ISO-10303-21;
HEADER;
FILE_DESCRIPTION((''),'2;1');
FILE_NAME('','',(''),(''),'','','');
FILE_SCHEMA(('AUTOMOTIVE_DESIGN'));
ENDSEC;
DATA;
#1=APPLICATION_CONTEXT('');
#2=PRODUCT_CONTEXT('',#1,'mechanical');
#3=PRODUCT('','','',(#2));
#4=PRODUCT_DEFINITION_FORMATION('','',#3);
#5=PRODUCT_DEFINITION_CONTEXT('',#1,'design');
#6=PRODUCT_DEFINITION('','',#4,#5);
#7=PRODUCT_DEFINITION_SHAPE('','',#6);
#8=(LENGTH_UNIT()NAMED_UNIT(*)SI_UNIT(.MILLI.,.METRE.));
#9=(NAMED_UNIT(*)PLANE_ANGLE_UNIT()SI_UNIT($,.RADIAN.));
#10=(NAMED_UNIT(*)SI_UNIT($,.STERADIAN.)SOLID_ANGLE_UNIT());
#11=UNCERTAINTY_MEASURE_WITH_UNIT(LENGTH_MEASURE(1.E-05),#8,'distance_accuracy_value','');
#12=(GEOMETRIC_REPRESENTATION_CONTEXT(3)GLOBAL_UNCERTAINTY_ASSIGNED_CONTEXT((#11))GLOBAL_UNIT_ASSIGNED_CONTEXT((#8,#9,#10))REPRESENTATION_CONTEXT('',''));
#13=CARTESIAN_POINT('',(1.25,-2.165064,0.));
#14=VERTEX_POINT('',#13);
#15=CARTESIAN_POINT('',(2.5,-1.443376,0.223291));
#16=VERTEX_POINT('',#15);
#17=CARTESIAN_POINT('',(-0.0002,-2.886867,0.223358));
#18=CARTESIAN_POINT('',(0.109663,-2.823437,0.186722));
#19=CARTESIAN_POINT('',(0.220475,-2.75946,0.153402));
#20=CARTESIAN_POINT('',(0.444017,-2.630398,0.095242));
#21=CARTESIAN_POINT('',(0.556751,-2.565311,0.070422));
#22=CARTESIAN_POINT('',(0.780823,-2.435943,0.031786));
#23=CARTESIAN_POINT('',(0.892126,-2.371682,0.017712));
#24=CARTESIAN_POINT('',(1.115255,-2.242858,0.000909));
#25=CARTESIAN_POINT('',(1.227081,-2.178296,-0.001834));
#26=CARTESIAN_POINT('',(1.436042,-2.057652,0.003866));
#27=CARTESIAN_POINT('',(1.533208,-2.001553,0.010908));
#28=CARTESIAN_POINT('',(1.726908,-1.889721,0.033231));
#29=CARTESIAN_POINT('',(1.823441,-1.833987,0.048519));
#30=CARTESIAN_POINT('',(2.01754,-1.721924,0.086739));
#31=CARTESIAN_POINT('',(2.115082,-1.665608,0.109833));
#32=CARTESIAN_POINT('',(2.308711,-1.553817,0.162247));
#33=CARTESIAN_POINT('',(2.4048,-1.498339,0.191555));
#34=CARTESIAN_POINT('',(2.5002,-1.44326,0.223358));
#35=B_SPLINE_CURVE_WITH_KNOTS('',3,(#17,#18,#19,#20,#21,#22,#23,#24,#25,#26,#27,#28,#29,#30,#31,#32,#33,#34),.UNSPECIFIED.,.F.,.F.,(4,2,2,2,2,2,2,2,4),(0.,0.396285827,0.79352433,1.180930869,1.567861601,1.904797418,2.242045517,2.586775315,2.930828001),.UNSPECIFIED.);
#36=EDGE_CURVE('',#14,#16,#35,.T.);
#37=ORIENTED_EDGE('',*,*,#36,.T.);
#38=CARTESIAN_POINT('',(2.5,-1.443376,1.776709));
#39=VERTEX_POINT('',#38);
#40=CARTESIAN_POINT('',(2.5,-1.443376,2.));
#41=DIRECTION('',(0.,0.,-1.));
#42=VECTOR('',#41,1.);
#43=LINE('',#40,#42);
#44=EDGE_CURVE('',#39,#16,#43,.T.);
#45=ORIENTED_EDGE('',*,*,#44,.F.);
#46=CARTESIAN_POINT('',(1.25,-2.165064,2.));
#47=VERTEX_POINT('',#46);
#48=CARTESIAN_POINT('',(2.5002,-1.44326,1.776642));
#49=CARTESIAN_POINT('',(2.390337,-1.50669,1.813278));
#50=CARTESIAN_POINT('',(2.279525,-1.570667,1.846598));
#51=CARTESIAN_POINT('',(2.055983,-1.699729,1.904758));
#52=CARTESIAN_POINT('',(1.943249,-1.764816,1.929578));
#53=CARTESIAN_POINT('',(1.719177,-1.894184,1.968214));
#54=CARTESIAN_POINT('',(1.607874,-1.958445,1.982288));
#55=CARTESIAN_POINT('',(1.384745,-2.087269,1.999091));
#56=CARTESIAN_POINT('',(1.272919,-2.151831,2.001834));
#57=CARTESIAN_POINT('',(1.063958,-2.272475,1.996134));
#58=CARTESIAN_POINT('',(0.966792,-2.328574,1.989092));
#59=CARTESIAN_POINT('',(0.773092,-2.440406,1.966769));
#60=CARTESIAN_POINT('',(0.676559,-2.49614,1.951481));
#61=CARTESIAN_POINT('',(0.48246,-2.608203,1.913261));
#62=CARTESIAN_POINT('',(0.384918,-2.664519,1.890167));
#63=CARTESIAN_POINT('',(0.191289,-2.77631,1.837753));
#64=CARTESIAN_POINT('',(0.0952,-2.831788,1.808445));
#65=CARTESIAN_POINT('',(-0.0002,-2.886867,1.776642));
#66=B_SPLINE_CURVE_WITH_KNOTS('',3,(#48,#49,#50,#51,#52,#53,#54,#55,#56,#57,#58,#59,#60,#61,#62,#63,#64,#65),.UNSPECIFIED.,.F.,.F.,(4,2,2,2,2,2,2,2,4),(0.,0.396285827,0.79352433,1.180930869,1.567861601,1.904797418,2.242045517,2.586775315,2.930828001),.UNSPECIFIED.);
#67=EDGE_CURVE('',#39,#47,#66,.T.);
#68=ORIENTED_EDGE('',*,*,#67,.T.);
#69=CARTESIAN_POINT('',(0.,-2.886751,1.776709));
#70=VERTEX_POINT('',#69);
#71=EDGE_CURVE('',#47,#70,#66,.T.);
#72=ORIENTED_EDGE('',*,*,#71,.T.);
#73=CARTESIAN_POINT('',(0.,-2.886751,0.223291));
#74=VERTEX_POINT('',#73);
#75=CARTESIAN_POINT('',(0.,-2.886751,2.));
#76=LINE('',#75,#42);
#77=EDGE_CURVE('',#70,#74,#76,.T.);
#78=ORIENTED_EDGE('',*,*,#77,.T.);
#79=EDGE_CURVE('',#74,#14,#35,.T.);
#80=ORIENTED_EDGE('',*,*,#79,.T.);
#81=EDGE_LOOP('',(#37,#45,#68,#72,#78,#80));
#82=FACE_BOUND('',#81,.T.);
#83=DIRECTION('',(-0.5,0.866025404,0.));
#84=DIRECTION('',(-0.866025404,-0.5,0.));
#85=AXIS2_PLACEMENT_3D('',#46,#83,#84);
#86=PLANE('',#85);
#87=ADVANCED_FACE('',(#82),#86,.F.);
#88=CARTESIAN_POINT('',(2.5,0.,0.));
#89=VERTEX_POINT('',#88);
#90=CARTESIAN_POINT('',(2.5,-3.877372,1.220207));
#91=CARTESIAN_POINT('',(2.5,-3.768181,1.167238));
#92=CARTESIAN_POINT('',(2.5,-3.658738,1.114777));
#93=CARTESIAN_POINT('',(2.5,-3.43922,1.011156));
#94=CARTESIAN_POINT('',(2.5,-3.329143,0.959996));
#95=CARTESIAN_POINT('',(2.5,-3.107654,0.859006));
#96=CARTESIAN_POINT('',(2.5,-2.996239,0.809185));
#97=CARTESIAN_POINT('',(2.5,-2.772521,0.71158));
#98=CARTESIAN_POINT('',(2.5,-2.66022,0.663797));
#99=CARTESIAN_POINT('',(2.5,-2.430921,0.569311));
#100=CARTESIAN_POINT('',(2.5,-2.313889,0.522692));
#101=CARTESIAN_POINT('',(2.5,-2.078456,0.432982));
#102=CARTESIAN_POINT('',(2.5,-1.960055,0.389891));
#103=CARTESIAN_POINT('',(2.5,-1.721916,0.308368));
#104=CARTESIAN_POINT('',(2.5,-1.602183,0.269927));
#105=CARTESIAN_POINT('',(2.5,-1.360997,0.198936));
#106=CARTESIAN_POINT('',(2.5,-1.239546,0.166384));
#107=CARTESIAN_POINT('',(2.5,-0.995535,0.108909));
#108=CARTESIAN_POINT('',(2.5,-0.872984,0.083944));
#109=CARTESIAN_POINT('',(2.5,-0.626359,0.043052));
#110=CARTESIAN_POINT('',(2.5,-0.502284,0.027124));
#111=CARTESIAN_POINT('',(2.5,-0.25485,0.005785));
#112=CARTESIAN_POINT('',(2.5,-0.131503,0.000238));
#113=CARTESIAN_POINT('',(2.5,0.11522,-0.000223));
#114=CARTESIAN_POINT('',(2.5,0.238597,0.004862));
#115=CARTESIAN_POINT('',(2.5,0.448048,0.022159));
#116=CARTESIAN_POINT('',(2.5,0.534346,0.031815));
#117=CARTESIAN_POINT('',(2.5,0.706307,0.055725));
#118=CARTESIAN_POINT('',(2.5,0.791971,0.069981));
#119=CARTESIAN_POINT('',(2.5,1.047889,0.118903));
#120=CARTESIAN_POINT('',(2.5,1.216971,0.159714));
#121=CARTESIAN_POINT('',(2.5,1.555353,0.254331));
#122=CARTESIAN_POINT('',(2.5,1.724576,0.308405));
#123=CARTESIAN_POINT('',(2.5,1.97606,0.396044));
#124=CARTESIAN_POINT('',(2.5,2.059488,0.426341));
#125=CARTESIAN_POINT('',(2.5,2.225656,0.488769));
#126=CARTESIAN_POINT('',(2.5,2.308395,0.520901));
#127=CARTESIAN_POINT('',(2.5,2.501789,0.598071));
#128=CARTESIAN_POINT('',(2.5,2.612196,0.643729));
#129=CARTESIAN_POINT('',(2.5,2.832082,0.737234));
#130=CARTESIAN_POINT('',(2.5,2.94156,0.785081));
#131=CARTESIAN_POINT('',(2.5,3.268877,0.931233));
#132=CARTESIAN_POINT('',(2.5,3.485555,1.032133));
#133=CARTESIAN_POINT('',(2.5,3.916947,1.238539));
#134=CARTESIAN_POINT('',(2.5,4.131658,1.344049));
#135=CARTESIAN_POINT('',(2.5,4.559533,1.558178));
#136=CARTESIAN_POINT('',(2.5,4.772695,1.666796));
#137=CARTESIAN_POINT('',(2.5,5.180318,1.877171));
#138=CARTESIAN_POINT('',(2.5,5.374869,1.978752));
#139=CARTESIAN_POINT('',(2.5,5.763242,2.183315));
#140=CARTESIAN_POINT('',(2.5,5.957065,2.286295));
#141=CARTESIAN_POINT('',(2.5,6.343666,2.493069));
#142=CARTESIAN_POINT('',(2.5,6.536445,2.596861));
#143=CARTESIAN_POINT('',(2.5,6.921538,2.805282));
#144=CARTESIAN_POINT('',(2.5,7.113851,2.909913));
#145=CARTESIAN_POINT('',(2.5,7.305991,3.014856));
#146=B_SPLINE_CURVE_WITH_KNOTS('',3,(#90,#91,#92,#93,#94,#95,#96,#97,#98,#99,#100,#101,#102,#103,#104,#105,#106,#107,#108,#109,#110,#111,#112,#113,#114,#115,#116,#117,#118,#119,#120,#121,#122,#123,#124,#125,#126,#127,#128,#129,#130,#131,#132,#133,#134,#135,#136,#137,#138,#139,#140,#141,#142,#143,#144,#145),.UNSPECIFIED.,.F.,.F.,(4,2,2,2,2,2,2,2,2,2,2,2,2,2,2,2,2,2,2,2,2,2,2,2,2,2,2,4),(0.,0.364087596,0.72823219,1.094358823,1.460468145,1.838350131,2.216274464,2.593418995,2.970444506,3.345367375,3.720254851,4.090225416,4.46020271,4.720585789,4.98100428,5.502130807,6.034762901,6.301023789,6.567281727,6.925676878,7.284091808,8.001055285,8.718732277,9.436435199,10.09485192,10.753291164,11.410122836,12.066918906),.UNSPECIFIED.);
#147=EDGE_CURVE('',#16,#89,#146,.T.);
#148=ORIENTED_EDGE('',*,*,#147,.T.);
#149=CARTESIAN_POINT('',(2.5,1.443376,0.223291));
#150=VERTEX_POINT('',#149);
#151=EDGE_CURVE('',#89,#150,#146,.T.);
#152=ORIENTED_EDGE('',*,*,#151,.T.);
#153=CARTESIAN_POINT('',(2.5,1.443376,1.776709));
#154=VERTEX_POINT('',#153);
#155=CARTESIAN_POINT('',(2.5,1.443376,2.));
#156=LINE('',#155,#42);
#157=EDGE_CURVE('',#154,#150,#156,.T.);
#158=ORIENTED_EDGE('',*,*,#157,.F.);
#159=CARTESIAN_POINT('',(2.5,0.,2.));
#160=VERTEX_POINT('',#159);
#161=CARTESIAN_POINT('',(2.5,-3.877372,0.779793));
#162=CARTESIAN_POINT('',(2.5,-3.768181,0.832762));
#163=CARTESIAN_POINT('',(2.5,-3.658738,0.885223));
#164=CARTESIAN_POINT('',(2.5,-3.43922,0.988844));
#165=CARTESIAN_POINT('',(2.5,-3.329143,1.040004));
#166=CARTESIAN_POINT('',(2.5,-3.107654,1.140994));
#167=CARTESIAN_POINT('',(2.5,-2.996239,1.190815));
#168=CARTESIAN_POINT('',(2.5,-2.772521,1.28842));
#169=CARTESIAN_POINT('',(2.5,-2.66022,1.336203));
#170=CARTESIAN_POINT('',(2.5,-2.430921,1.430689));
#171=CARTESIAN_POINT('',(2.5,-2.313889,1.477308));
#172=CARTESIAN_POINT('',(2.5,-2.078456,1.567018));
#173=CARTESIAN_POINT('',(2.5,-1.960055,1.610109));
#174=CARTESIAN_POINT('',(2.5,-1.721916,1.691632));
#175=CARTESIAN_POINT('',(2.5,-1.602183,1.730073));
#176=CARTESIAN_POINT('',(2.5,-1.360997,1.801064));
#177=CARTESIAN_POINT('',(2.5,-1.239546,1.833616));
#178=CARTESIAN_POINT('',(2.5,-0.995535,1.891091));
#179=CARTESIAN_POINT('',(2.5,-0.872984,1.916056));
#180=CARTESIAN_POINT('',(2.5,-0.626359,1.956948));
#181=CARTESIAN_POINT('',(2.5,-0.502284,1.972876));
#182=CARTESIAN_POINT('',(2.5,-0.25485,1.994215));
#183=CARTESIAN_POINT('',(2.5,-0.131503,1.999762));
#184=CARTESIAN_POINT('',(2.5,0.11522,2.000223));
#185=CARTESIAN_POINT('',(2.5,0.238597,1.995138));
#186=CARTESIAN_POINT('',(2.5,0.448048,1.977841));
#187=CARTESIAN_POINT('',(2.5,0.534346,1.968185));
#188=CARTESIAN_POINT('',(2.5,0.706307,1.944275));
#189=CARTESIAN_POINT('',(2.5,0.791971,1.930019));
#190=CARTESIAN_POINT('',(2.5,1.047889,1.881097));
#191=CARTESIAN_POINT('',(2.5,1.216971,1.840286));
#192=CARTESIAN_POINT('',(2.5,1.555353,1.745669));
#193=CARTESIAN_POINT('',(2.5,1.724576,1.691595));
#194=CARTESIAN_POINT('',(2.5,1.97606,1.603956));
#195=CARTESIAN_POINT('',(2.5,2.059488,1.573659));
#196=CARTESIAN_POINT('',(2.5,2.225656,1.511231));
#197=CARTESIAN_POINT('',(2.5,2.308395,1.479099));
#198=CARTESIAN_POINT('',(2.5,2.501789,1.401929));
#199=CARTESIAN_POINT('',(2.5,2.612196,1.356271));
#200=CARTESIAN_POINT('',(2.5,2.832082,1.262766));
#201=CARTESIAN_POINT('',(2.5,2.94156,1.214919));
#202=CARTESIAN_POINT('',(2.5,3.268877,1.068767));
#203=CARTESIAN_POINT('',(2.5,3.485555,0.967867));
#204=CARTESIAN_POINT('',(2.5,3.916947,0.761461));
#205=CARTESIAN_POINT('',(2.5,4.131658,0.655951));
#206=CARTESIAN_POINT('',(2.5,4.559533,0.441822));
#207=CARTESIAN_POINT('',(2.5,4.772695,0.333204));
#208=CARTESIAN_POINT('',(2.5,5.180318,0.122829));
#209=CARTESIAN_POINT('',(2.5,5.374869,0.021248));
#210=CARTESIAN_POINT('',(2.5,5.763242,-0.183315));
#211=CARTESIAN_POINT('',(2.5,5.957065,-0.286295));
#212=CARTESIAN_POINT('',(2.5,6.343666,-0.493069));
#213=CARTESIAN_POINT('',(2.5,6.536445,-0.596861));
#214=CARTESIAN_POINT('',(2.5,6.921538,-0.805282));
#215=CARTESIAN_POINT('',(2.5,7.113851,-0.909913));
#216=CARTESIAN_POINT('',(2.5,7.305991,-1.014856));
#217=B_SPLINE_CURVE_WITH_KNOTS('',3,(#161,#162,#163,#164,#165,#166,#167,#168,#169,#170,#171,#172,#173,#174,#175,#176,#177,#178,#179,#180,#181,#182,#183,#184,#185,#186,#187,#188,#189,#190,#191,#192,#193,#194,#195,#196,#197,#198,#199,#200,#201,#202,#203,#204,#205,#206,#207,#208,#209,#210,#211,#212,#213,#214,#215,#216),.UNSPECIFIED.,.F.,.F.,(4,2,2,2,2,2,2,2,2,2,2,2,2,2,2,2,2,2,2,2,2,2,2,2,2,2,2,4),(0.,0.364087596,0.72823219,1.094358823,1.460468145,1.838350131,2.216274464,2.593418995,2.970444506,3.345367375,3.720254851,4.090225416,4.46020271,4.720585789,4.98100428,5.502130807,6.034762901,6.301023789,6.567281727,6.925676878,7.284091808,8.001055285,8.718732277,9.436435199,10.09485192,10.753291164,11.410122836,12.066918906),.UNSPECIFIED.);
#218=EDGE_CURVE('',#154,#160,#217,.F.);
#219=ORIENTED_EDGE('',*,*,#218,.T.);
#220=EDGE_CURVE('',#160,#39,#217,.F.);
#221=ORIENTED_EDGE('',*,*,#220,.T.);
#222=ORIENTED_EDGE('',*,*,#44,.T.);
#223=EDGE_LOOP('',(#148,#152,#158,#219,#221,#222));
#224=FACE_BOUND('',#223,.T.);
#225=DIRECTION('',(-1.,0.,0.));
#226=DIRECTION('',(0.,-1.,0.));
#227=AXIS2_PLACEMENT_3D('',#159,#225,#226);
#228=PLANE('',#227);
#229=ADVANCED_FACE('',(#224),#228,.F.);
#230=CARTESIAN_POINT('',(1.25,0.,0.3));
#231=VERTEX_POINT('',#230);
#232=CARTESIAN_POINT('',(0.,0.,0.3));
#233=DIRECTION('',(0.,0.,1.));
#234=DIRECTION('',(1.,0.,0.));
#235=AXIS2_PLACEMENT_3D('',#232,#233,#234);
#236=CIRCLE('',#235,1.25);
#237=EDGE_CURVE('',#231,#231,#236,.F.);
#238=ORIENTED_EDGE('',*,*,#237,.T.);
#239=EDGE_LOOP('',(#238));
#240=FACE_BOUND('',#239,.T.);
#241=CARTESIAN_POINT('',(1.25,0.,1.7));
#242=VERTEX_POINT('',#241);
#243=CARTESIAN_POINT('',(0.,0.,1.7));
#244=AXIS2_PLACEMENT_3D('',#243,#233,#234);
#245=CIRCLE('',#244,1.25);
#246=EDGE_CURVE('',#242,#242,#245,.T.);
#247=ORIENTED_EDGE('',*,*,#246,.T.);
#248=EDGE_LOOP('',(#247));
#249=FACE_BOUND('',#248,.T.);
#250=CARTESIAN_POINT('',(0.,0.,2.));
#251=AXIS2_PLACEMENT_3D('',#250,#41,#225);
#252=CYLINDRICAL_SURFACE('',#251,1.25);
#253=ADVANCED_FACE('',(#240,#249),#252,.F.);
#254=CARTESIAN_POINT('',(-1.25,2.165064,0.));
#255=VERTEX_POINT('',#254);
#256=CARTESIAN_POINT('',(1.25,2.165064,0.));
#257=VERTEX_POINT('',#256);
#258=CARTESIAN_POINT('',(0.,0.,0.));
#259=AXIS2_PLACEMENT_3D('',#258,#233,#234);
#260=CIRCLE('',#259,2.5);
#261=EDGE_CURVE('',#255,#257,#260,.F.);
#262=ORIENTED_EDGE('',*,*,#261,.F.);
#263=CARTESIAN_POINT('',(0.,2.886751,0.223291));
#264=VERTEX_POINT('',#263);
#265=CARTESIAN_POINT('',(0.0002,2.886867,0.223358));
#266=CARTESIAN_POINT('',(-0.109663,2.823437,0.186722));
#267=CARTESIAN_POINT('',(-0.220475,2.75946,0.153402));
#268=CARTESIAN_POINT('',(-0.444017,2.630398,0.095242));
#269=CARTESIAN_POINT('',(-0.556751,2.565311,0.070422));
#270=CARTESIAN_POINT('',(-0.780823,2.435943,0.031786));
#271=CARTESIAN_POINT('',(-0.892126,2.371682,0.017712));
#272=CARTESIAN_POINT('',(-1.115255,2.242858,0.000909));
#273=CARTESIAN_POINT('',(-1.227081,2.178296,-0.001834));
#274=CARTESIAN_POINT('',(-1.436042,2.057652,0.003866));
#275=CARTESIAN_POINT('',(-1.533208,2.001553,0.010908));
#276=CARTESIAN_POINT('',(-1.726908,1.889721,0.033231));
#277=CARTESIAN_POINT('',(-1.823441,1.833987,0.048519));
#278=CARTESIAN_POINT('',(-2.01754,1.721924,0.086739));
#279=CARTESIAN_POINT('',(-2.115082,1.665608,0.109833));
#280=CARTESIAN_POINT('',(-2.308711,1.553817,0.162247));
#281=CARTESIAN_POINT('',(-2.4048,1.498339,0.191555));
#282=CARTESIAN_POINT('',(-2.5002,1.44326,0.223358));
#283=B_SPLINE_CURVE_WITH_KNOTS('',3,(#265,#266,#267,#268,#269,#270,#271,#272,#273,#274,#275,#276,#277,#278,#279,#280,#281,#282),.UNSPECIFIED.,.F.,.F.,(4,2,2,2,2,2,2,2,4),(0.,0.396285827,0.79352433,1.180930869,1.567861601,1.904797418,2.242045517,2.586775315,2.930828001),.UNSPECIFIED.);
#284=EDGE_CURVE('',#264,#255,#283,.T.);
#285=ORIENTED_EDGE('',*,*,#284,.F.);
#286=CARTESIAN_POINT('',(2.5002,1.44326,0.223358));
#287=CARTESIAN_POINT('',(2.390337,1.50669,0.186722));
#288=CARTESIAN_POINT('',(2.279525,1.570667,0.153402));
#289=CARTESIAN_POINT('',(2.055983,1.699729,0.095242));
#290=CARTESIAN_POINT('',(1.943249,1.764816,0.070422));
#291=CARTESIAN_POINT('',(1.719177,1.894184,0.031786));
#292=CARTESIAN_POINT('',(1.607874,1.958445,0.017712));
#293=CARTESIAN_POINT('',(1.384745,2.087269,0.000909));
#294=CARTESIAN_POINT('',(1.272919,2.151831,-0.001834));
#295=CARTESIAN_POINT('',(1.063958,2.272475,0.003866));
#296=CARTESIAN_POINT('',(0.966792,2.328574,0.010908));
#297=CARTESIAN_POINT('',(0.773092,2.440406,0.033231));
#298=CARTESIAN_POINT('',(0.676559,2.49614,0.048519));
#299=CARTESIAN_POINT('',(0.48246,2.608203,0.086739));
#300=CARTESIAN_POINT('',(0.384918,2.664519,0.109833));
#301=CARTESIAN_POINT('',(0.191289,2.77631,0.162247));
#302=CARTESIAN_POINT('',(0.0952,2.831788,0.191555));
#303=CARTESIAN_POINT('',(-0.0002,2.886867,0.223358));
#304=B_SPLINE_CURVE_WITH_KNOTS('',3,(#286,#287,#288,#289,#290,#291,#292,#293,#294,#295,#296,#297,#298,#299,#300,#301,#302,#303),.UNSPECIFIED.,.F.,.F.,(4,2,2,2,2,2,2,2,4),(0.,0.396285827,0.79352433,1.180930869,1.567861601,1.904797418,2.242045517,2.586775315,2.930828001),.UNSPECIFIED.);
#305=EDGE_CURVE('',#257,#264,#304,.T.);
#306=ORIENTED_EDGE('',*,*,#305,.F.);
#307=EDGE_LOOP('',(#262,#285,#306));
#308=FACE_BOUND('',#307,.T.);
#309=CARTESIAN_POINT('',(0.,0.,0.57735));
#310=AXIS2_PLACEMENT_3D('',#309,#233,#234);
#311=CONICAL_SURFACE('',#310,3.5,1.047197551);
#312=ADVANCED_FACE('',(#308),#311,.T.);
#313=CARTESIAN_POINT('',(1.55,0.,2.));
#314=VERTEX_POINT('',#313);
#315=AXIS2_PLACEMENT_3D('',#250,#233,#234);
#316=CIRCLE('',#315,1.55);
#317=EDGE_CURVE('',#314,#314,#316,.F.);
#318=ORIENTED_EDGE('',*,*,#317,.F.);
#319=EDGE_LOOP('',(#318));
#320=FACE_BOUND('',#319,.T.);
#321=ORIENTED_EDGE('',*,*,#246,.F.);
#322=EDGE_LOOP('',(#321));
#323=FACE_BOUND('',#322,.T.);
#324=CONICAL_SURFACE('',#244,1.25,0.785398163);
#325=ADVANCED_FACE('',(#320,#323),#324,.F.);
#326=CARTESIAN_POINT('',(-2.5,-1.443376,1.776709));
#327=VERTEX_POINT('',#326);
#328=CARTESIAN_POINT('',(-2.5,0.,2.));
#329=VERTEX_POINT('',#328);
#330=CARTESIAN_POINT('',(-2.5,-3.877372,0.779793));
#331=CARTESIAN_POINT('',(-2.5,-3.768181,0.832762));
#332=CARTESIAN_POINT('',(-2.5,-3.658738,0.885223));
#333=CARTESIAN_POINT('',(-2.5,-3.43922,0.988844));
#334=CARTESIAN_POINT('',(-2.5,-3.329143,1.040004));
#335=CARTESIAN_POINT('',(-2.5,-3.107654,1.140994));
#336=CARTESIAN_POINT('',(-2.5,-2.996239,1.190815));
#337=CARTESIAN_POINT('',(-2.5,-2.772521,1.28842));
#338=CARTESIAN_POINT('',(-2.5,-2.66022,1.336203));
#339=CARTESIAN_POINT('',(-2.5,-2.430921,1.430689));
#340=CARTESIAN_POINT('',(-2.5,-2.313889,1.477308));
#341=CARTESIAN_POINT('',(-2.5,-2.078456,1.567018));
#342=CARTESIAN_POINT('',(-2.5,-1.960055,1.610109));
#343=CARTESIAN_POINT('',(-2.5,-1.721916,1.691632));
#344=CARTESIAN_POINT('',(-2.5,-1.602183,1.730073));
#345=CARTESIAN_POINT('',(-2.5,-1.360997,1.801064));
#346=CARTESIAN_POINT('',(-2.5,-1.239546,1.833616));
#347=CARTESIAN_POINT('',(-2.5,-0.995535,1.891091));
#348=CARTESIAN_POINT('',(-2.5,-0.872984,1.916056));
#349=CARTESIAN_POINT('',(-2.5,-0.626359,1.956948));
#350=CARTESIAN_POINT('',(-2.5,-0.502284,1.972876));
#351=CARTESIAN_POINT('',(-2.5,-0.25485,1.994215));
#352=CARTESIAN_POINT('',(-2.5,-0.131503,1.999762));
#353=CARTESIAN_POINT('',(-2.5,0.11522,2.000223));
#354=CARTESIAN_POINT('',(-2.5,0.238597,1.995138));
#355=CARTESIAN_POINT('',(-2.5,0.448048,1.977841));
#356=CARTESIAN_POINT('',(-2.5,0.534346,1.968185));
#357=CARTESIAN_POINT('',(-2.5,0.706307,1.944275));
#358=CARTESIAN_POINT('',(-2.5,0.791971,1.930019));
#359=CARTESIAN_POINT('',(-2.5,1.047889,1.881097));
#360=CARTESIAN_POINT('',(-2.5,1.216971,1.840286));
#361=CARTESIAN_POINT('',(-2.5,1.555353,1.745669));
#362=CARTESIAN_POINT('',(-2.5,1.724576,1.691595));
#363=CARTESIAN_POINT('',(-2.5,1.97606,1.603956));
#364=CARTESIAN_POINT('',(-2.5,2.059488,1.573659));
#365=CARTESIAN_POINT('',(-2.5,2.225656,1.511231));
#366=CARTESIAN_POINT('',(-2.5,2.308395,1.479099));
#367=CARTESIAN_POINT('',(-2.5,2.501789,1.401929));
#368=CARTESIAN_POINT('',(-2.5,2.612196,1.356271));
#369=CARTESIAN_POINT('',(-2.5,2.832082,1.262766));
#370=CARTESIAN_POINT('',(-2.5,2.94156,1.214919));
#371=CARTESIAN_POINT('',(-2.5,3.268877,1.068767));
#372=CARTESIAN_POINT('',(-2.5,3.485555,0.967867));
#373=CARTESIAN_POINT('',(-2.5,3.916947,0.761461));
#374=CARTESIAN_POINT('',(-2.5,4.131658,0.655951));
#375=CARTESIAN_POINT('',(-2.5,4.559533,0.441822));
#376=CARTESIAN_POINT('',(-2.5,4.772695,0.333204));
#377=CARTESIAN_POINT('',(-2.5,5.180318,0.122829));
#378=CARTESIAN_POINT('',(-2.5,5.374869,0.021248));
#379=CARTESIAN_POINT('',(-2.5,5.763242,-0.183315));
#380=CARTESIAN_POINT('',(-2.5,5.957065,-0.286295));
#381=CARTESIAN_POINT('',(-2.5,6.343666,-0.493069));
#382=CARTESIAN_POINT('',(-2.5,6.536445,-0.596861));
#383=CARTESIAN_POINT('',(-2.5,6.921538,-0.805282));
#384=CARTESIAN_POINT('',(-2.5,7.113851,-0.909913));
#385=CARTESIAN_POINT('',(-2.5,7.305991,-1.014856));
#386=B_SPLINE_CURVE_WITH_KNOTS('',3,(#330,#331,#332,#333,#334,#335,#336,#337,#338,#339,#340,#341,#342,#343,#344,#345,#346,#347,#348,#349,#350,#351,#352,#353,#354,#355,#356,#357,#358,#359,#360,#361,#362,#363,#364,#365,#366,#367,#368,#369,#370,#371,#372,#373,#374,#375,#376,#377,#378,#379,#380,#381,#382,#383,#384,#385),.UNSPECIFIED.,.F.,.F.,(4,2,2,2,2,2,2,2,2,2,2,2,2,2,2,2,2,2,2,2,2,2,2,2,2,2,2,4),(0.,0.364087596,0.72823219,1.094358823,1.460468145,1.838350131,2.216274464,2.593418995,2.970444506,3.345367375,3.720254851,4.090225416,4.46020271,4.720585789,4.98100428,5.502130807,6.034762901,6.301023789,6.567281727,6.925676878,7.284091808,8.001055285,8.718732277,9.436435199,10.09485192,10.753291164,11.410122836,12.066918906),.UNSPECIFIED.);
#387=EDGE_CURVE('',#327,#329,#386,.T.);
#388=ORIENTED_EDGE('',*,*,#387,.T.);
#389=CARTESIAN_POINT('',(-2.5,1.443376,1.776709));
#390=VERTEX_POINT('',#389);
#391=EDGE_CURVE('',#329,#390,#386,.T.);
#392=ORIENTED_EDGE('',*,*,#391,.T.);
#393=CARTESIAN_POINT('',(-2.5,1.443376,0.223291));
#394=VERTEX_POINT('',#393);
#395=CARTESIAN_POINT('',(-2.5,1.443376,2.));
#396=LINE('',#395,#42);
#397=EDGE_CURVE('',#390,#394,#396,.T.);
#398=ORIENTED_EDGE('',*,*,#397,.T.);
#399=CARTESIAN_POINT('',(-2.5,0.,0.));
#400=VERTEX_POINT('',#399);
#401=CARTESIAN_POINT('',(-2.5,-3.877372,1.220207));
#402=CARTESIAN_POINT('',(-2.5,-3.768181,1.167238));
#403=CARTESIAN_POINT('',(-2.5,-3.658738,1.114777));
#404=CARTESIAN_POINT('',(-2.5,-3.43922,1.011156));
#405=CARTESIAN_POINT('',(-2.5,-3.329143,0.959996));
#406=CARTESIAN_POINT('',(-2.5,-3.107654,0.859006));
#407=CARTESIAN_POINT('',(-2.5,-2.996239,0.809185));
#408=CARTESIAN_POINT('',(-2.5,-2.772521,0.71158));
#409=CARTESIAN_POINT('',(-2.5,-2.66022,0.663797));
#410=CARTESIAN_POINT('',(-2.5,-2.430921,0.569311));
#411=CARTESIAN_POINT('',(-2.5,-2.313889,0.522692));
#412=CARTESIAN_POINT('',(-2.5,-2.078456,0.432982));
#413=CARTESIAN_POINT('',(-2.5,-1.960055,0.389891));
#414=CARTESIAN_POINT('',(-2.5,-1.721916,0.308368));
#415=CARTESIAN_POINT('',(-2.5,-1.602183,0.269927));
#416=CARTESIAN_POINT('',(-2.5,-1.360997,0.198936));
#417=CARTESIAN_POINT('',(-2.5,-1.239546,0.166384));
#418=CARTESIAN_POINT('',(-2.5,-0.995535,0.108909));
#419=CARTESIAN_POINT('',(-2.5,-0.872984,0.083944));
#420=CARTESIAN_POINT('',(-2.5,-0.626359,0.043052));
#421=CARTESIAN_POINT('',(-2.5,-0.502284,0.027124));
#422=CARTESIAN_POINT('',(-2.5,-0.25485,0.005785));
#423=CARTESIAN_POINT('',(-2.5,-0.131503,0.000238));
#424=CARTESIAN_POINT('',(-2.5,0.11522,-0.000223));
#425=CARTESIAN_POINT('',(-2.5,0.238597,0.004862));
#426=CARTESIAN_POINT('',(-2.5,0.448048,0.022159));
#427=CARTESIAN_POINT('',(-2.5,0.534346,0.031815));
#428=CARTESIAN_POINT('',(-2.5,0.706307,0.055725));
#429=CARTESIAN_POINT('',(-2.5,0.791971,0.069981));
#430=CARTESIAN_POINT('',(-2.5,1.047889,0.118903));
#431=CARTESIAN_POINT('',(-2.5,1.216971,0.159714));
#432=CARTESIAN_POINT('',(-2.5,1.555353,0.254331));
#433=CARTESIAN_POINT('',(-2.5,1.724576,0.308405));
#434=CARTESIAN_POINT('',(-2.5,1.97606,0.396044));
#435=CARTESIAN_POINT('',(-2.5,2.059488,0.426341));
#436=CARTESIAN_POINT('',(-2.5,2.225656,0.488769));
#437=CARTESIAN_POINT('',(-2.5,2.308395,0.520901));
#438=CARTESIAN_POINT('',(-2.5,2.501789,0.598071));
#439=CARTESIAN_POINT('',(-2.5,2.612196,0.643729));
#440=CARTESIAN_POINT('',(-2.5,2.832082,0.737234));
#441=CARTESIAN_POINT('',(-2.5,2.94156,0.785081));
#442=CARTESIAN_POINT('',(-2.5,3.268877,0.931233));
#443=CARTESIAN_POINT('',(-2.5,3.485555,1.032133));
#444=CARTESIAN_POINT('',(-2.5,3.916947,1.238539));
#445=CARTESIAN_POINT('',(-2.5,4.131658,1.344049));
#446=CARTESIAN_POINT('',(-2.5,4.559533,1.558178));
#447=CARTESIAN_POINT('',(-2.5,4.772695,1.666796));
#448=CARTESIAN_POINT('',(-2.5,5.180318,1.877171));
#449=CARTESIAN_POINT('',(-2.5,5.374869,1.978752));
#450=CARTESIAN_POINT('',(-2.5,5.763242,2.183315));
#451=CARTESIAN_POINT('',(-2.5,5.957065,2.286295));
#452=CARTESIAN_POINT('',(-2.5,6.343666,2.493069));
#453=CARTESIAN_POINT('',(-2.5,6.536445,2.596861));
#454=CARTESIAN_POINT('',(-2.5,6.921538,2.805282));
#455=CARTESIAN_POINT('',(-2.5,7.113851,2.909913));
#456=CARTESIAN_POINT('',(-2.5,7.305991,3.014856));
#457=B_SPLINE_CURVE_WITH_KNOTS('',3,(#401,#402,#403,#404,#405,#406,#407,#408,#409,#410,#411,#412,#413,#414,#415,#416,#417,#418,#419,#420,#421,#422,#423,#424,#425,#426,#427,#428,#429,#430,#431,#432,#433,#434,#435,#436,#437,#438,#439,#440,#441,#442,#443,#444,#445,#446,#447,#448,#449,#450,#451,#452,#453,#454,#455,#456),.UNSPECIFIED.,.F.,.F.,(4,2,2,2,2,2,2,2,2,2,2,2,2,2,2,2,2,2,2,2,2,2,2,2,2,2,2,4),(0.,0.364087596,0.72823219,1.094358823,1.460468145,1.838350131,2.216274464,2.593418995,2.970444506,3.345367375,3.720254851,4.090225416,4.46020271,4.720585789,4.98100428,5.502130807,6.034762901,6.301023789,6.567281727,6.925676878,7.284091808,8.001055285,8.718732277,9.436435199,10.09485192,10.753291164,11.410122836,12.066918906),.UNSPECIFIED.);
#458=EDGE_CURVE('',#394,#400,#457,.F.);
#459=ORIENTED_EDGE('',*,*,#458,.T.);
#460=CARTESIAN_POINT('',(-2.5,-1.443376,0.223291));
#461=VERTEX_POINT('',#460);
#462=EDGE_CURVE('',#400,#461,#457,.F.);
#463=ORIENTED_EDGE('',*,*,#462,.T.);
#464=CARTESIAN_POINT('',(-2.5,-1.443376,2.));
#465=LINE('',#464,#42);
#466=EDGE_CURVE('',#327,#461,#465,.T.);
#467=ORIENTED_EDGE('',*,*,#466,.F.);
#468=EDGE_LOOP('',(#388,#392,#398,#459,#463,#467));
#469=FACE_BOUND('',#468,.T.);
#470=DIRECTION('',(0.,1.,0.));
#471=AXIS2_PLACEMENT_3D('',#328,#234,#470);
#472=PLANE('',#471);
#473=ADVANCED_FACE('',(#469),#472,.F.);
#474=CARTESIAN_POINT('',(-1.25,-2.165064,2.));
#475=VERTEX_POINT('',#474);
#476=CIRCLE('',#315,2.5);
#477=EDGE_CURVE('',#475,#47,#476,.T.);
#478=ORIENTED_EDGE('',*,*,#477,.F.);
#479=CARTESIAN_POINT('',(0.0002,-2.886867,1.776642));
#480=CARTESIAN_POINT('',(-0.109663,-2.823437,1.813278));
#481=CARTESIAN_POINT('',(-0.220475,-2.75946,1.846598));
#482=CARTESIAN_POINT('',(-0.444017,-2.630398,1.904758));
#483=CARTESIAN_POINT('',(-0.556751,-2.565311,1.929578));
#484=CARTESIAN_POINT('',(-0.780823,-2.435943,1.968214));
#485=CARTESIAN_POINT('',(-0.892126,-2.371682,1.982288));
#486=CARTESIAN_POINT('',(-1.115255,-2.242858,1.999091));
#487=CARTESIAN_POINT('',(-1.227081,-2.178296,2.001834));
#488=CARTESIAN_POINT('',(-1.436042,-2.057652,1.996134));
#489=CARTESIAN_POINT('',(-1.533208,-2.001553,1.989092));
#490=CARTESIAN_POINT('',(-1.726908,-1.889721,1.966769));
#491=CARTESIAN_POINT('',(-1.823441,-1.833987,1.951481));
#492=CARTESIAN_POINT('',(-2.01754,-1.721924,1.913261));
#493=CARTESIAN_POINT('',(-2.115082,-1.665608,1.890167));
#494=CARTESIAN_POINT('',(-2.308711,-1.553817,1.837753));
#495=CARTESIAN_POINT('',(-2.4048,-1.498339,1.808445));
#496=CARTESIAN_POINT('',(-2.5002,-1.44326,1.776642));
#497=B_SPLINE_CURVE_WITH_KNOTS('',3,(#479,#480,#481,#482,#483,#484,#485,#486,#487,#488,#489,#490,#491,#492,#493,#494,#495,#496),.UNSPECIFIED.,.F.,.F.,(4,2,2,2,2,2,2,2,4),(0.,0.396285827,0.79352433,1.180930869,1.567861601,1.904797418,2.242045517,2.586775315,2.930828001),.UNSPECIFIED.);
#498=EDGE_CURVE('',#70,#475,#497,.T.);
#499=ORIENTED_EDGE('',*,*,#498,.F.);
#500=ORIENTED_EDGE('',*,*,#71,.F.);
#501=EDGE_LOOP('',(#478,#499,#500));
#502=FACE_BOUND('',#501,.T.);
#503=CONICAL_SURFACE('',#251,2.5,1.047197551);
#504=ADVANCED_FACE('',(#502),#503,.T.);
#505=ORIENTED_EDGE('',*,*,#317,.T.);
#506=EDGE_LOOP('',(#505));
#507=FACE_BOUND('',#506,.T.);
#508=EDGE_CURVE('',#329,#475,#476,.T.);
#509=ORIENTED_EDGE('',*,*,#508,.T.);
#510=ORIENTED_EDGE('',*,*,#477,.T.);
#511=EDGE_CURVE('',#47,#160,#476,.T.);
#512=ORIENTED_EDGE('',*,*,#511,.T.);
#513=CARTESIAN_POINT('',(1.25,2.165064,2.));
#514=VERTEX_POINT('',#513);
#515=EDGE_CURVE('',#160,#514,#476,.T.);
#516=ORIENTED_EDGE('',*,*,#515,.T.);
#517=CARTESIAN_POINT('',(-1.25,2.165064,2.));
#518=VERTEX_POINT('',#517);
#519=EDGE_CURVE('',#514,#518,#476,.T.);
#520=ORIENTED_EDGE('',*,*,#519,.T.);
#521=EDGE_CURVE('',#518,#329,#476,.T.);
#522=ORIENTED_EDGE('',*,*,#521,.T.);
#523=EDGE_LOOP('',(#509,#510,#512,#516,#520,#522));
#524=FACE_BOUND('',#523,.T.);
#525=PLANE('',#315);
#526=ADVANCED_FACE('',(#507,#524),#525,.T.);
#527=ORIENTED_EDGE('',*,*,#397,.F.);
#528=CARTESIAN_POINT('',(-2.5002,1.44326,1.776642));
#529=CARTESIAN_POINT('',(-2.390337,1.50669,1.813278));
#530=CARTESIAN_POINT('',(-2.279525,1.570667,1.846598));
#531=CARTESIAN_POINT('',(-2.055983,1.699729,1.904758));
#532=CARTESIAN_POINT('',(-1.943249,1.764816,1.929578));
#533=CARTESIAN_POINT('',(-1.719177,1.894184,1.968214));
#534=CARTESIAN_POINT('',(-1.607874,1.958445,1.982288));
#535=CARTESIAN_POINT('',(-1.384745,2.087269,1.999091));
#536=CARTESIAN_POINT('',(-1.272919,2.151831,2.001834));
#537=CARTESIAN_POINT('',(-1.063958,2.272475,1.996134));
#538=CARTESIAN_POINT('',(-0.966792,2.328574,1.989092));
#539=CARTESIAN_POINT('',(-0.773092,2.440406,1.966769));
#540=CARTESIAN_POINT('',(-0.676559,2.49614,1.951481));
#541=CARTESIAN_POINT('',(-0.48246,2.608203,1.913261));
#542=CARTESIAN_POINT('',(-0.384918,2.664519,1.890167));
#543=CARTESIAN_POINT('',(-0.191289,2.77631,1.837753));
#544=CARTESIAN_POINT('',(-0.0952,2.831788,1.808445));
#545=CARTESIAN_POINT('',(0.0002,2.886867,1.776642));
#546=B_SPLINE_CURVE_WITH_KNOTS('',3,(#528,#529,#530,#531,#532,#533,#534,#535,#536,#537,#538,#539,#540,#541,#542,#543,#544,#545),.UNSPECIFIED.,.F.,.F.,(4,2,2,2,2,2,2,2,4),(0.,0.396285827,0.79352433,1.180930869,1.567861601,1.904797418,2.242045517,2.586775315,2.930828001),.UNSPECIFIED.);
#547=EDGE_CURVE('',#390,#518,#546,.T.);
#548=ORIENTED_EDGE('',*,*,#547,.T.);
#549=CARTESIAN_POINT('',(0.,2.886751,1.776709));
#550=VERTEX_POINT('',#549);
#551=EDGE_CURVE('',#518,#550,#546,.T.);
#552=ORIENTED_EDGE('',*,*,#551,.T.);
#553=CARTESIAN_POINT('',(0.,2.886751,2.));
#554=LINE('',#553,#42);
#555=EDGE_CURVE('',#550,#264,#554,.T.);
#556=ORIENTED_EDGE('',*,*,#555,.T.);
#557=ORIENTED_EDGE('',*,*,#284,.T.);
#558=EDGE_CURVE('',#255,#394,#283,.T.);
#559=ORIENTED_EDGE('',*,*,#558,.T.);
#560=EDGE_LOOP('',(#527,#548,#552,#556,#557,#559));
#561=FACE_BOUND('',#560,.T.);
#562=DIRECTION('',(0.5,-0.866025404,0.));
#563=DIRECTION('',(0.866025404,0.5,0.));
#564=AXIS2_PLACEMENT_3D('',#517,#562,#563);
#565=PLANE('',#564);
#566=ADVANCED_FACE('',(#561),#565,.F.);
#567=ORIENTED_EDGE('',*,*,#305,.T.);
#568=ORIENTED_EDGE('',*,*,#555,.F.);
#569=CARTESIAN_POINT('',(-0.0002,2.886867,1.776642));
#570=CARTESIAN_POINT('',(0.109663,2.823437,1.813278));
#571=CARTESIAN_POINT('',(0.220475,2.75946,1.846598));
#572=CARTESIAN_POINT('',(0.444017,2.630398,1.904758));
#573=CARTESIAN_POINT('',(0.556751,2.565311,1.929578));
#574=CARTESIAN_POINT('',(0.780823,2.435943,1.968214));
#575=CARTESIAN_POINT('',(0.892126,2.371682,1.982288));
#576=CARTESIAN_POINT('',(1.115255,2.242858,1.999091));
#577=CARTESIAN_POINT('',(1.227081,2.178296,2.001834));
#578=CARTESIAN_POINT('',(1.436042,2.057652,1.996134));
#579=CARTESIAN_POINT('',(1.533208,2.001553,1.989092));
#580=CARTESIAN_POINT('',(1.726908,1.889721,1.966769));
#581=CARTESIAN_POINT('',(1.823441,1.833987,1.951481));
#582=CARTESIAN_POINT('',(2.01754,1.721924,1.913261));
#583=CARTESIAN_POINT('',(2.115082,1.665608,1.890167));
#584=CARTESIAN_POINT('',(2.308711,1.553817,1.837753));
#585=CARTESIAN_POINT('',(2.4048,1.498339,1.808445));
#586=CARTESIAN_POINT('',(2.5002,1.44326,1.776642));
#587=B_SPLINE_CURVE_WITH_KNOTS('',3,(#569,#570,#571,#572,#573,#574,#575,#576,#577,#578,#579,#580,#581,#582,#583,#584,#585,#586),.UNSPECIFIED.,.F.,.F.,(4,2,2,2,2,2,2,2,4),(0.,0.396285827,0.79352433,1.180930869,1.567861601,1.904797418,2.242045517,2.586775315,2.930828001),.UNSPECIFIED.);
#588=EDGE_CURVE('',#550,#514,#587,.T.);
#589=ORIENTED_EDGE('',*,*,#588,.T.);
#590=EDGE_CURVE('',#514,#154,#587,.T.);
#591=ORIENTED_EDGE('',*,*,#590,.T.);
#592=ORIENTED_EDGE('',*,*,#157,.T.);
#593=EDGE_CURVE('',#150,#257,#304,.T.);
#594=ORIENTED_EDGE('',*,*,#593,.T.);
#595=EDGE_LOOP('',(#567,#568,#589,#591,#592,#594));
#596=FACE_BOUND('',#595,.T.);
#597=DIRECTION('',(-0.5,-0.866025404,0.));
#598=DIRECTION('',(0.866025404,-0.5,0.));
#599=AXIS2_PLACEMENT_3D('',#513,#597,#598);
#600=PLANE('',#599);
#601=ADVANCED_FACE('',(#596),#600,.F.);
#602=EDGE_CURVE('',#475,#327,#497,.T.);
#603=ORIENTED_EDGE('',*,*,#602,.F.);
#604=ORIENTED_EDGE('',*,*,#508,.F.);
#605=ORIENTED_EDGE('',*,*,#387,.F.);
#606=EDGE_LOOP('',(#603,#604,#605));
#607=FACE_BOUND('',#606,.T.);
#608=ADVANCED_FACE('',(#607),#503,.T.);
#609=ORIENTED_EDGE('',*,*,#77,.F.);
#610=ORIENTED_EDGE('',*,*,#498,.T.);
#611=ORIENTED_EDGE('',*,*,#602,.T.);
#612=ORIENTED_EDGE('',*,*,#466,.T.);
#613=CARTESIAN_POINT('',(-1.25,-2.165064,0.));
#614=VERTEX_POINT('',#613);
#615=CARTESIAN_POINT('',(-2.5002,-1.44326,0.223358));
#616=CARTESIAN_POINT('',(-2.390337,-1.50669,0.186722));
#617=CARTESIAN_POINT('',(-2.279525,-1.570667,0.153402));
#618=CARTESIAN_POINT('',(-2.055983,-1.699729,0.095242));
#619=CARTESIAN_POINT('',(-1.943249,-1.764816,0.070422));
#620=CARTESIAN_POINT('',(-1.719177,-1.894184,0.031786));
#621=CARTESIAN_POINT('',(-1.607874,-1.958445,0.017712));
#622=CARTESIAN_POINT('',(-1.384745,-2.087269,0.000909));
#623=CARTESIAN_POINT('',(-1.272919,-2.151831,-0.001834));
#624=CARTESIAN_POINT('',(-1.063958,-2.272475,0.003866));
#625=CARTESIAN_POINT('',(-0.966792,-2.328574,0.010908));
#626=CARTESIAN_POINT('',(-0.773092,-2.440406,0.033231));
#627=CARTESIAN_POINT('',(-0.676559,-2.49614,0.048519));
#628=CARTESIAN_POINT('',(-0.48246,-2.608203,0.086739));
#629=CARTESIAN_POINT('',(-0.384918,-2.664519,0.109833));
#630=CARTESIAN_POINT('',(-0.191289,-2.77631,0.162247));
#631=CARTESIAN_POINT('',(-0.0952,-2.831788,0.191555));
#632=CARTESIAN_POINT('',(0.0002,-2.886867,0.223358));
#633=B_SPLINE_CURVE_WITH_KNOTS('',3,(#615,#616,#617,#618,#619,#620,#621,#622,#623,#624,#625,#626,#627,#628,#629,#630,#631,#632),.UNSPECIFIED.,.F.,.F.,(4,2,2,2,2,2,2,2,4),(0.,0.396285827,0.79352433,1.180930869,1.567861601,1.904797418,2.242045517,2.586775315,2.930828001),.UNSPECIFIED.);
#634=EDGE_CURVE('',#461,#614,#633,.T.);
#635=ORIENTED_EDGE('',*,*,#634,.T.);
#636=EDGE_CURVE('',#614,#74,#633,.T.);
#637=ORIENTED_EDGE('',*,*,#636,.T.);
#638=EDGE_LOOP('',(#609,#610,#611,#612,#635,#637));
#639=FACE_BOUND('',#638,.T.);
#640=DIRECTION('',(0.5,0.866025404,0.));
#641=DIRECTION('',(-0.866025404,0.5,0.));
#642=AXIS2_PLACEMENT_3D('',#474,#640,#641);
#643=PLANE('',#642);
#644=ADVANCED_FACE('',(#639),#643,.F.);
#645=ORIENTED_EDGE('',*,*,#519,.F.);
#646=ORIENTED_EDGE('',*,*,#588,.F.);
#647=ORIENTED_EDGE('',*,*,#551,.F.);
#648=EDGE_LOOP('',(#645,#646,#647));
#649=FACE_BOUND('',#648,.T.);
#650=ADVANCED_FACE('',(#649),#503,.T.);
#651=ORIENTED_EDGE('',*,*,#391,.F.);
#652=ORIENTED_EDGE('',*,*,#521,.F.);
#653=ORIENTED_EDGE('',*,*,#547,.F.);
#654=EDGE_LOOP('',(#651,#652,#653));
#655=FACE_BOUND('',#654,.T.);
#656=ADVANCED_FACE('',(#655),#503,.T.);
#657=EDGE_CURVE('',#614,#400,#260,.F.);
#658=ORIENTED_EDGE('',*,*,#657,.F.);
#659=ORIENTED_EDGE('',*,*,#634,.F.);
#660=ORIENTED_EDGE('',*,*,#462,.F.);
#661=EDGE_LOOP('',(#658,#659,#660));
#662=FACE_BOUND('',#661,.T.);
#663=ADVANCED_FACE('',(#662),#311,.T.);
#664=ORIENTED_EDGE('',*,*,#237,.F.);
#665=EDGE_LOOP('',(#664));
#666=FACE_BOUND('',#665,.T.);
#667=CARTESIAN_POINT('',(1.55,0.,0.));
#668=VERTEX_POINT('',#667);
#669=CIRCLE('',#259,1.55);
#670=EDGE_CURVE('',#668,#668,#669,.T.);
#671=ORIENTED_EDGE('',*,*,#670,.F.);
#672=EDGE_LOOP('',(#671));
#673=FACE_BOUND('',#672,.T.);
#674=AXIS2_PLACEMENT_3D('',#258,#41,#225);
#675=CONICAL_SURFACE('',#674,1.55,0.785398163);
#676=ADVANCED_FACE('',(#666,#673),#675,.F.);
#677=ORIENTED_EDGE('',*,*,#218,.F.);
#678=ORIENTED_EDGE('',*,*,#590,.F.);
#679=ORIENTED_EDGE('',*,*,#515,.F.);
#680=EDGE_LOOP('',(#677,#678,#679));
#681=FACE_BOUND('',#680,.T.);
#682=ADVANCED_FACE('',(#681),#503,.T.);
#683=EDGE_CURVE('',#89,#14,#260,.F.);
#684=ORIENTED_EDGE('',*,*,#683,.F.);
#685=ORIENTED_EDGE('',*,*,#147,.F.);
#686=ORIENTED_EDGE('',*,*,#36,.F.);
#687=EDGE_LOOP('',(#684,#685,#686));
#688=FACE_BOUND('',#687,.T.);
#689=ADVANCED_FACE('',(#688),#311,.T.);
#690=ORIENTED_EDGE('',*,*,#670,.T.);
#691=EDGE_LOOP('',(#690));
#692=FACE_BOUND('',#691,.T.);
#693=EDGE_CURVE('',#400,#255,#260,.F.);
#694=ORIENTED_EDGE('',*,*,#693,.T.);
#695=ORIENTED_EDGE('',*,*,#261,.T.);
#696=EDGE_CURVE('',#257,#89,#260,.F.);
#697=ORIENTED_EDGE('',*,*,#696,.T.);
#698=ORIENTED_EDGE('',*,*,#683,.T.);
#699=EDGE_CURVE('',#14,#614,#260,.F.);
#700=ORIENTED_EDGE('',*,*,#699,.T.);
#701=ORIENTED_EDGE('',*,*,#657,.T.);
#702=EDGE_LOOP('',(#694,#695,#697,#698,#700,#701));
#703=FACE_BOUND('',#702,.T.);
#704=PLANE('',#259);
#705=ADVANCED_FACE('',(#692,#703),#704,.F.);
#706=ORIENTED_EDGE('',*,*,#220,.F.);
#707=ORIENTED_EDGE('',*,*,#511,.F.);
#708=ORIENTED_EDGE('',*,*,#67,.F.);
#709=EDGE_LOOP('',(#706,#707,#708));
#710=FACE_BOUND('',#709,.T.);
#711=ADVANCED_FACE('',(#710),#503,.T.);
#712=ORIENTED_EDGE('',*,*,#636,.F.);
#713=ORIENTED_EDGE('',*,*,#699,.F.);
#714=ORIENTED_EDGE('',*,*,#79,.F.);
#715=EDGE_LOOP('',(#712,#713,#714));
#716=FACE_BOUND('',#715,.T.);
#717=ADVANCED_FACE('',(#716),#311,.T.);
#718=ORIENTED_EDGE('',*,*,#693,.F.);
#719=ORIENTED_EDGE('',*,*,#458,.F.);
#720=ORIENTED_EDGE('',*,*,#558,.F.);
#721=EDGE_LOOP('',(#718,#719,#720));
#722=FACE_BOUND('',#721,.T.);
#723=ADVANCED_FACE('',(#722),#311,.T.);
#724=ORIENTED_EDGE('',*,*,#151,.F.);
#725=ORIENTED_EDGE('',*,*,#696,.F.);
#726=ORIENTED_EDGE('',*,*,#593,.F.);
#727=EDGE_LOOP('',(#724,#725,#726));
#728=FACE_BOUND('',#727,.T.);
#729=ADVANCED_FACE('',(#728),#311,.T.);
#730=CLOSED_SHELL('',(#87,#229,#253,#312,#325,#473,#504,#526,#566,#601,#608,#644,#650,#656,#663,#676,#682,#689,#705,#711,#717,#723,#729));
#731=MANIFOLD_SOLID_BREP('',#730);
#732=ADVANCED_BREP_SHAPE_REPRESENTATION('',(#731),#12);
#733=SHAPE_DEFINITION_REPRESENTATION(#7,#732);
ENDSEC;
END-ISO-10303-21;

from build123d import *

# Parameters (mm, degrees)
SKETCH1_R           = 3.5
SKETCH1_R_2         = 1.25
BOSS_EXTRUDE1_DEPTH = 2
CHAMFER1_SIZE       = 1
CHAMFER1_SIZE2      = 0.577350269
CHAMFER2_SIZE       = 1
CHAMFER2_SIZE2      = 0.577350269
SKETCH1_3_R         = 3.5
CUT_EXTRUDE1_DEPTH  = 6.338539126
CHAMFER3_SIZE       = 0.3


with BuildPart() as part:
    # Sketch1 → Boss-Extrude1 (new body)
    with BuildSketch(Plane.XY):
        Circle(SKETCH1_R)
        Circle(SKETCH1_R_2, mode=Mode.SUBTRACT)
    extrude(amount=BOSS_EXTRUDE1_DEPTH)

    # Chamfer1
    chamfer1_edges = [part.edges().sort_by_distance(p)[0] for p in [
        (-3.5, 0, 2),
    ]]
    chamfer1_side = [part.faces().sort_by_distance(p)[0] for p in [
        (-3.401005051, 0, 2),
    ]]
    chamfer(chamfer1_edges, length=CHAMFER1_SIZE, length2=CHAMFER1_SIZE2, reference=chamfer1_side[0])

    # Chamfer2
    chamfer2_edges = [part.edges().sort_by_distance(p)[0] for p in [
        (-3.5, 0, 0),
    ]]
    chamfer2_side = [part.faces().sort_by_distance(p)[0] for p in [
        (-3.401005051, 0, 0),
    ]]
    chamfer(chamfer2_edges, length=CHAMFER2_SIZE, length2=CHAMFER2_SIZE2, reference=chamfer2_side[0])

    # Sketch1<3> → Cut-Extrude1 (cut, through all)
    with BuildSketch(Plane.XY):
        Circle(SKETCH1_3_R)
        Polygon((-2.5, 1.443375673), (0, 2.886751346), (2.5, 1.443375673), (2.5, -1.443375673), (0, -2.886751346), (-2.5, -1.443375673), align=None, mode=Mode.SUBTRACT)
    extrude(amount=CUT_EXTRUDE1_DEPTH, mode=Mode.SUBTRACT)

    # Chamfer3
    chamfer3_edges = [part.edges().sort_by_distance(p)[0] for p in [
        (-1.25, 0, 0),
        (-1.25, 0, 2),
    ]]
    chamfer(chamfer3_edges, length=CHAMFER3_SIZE)


solid = part.part
